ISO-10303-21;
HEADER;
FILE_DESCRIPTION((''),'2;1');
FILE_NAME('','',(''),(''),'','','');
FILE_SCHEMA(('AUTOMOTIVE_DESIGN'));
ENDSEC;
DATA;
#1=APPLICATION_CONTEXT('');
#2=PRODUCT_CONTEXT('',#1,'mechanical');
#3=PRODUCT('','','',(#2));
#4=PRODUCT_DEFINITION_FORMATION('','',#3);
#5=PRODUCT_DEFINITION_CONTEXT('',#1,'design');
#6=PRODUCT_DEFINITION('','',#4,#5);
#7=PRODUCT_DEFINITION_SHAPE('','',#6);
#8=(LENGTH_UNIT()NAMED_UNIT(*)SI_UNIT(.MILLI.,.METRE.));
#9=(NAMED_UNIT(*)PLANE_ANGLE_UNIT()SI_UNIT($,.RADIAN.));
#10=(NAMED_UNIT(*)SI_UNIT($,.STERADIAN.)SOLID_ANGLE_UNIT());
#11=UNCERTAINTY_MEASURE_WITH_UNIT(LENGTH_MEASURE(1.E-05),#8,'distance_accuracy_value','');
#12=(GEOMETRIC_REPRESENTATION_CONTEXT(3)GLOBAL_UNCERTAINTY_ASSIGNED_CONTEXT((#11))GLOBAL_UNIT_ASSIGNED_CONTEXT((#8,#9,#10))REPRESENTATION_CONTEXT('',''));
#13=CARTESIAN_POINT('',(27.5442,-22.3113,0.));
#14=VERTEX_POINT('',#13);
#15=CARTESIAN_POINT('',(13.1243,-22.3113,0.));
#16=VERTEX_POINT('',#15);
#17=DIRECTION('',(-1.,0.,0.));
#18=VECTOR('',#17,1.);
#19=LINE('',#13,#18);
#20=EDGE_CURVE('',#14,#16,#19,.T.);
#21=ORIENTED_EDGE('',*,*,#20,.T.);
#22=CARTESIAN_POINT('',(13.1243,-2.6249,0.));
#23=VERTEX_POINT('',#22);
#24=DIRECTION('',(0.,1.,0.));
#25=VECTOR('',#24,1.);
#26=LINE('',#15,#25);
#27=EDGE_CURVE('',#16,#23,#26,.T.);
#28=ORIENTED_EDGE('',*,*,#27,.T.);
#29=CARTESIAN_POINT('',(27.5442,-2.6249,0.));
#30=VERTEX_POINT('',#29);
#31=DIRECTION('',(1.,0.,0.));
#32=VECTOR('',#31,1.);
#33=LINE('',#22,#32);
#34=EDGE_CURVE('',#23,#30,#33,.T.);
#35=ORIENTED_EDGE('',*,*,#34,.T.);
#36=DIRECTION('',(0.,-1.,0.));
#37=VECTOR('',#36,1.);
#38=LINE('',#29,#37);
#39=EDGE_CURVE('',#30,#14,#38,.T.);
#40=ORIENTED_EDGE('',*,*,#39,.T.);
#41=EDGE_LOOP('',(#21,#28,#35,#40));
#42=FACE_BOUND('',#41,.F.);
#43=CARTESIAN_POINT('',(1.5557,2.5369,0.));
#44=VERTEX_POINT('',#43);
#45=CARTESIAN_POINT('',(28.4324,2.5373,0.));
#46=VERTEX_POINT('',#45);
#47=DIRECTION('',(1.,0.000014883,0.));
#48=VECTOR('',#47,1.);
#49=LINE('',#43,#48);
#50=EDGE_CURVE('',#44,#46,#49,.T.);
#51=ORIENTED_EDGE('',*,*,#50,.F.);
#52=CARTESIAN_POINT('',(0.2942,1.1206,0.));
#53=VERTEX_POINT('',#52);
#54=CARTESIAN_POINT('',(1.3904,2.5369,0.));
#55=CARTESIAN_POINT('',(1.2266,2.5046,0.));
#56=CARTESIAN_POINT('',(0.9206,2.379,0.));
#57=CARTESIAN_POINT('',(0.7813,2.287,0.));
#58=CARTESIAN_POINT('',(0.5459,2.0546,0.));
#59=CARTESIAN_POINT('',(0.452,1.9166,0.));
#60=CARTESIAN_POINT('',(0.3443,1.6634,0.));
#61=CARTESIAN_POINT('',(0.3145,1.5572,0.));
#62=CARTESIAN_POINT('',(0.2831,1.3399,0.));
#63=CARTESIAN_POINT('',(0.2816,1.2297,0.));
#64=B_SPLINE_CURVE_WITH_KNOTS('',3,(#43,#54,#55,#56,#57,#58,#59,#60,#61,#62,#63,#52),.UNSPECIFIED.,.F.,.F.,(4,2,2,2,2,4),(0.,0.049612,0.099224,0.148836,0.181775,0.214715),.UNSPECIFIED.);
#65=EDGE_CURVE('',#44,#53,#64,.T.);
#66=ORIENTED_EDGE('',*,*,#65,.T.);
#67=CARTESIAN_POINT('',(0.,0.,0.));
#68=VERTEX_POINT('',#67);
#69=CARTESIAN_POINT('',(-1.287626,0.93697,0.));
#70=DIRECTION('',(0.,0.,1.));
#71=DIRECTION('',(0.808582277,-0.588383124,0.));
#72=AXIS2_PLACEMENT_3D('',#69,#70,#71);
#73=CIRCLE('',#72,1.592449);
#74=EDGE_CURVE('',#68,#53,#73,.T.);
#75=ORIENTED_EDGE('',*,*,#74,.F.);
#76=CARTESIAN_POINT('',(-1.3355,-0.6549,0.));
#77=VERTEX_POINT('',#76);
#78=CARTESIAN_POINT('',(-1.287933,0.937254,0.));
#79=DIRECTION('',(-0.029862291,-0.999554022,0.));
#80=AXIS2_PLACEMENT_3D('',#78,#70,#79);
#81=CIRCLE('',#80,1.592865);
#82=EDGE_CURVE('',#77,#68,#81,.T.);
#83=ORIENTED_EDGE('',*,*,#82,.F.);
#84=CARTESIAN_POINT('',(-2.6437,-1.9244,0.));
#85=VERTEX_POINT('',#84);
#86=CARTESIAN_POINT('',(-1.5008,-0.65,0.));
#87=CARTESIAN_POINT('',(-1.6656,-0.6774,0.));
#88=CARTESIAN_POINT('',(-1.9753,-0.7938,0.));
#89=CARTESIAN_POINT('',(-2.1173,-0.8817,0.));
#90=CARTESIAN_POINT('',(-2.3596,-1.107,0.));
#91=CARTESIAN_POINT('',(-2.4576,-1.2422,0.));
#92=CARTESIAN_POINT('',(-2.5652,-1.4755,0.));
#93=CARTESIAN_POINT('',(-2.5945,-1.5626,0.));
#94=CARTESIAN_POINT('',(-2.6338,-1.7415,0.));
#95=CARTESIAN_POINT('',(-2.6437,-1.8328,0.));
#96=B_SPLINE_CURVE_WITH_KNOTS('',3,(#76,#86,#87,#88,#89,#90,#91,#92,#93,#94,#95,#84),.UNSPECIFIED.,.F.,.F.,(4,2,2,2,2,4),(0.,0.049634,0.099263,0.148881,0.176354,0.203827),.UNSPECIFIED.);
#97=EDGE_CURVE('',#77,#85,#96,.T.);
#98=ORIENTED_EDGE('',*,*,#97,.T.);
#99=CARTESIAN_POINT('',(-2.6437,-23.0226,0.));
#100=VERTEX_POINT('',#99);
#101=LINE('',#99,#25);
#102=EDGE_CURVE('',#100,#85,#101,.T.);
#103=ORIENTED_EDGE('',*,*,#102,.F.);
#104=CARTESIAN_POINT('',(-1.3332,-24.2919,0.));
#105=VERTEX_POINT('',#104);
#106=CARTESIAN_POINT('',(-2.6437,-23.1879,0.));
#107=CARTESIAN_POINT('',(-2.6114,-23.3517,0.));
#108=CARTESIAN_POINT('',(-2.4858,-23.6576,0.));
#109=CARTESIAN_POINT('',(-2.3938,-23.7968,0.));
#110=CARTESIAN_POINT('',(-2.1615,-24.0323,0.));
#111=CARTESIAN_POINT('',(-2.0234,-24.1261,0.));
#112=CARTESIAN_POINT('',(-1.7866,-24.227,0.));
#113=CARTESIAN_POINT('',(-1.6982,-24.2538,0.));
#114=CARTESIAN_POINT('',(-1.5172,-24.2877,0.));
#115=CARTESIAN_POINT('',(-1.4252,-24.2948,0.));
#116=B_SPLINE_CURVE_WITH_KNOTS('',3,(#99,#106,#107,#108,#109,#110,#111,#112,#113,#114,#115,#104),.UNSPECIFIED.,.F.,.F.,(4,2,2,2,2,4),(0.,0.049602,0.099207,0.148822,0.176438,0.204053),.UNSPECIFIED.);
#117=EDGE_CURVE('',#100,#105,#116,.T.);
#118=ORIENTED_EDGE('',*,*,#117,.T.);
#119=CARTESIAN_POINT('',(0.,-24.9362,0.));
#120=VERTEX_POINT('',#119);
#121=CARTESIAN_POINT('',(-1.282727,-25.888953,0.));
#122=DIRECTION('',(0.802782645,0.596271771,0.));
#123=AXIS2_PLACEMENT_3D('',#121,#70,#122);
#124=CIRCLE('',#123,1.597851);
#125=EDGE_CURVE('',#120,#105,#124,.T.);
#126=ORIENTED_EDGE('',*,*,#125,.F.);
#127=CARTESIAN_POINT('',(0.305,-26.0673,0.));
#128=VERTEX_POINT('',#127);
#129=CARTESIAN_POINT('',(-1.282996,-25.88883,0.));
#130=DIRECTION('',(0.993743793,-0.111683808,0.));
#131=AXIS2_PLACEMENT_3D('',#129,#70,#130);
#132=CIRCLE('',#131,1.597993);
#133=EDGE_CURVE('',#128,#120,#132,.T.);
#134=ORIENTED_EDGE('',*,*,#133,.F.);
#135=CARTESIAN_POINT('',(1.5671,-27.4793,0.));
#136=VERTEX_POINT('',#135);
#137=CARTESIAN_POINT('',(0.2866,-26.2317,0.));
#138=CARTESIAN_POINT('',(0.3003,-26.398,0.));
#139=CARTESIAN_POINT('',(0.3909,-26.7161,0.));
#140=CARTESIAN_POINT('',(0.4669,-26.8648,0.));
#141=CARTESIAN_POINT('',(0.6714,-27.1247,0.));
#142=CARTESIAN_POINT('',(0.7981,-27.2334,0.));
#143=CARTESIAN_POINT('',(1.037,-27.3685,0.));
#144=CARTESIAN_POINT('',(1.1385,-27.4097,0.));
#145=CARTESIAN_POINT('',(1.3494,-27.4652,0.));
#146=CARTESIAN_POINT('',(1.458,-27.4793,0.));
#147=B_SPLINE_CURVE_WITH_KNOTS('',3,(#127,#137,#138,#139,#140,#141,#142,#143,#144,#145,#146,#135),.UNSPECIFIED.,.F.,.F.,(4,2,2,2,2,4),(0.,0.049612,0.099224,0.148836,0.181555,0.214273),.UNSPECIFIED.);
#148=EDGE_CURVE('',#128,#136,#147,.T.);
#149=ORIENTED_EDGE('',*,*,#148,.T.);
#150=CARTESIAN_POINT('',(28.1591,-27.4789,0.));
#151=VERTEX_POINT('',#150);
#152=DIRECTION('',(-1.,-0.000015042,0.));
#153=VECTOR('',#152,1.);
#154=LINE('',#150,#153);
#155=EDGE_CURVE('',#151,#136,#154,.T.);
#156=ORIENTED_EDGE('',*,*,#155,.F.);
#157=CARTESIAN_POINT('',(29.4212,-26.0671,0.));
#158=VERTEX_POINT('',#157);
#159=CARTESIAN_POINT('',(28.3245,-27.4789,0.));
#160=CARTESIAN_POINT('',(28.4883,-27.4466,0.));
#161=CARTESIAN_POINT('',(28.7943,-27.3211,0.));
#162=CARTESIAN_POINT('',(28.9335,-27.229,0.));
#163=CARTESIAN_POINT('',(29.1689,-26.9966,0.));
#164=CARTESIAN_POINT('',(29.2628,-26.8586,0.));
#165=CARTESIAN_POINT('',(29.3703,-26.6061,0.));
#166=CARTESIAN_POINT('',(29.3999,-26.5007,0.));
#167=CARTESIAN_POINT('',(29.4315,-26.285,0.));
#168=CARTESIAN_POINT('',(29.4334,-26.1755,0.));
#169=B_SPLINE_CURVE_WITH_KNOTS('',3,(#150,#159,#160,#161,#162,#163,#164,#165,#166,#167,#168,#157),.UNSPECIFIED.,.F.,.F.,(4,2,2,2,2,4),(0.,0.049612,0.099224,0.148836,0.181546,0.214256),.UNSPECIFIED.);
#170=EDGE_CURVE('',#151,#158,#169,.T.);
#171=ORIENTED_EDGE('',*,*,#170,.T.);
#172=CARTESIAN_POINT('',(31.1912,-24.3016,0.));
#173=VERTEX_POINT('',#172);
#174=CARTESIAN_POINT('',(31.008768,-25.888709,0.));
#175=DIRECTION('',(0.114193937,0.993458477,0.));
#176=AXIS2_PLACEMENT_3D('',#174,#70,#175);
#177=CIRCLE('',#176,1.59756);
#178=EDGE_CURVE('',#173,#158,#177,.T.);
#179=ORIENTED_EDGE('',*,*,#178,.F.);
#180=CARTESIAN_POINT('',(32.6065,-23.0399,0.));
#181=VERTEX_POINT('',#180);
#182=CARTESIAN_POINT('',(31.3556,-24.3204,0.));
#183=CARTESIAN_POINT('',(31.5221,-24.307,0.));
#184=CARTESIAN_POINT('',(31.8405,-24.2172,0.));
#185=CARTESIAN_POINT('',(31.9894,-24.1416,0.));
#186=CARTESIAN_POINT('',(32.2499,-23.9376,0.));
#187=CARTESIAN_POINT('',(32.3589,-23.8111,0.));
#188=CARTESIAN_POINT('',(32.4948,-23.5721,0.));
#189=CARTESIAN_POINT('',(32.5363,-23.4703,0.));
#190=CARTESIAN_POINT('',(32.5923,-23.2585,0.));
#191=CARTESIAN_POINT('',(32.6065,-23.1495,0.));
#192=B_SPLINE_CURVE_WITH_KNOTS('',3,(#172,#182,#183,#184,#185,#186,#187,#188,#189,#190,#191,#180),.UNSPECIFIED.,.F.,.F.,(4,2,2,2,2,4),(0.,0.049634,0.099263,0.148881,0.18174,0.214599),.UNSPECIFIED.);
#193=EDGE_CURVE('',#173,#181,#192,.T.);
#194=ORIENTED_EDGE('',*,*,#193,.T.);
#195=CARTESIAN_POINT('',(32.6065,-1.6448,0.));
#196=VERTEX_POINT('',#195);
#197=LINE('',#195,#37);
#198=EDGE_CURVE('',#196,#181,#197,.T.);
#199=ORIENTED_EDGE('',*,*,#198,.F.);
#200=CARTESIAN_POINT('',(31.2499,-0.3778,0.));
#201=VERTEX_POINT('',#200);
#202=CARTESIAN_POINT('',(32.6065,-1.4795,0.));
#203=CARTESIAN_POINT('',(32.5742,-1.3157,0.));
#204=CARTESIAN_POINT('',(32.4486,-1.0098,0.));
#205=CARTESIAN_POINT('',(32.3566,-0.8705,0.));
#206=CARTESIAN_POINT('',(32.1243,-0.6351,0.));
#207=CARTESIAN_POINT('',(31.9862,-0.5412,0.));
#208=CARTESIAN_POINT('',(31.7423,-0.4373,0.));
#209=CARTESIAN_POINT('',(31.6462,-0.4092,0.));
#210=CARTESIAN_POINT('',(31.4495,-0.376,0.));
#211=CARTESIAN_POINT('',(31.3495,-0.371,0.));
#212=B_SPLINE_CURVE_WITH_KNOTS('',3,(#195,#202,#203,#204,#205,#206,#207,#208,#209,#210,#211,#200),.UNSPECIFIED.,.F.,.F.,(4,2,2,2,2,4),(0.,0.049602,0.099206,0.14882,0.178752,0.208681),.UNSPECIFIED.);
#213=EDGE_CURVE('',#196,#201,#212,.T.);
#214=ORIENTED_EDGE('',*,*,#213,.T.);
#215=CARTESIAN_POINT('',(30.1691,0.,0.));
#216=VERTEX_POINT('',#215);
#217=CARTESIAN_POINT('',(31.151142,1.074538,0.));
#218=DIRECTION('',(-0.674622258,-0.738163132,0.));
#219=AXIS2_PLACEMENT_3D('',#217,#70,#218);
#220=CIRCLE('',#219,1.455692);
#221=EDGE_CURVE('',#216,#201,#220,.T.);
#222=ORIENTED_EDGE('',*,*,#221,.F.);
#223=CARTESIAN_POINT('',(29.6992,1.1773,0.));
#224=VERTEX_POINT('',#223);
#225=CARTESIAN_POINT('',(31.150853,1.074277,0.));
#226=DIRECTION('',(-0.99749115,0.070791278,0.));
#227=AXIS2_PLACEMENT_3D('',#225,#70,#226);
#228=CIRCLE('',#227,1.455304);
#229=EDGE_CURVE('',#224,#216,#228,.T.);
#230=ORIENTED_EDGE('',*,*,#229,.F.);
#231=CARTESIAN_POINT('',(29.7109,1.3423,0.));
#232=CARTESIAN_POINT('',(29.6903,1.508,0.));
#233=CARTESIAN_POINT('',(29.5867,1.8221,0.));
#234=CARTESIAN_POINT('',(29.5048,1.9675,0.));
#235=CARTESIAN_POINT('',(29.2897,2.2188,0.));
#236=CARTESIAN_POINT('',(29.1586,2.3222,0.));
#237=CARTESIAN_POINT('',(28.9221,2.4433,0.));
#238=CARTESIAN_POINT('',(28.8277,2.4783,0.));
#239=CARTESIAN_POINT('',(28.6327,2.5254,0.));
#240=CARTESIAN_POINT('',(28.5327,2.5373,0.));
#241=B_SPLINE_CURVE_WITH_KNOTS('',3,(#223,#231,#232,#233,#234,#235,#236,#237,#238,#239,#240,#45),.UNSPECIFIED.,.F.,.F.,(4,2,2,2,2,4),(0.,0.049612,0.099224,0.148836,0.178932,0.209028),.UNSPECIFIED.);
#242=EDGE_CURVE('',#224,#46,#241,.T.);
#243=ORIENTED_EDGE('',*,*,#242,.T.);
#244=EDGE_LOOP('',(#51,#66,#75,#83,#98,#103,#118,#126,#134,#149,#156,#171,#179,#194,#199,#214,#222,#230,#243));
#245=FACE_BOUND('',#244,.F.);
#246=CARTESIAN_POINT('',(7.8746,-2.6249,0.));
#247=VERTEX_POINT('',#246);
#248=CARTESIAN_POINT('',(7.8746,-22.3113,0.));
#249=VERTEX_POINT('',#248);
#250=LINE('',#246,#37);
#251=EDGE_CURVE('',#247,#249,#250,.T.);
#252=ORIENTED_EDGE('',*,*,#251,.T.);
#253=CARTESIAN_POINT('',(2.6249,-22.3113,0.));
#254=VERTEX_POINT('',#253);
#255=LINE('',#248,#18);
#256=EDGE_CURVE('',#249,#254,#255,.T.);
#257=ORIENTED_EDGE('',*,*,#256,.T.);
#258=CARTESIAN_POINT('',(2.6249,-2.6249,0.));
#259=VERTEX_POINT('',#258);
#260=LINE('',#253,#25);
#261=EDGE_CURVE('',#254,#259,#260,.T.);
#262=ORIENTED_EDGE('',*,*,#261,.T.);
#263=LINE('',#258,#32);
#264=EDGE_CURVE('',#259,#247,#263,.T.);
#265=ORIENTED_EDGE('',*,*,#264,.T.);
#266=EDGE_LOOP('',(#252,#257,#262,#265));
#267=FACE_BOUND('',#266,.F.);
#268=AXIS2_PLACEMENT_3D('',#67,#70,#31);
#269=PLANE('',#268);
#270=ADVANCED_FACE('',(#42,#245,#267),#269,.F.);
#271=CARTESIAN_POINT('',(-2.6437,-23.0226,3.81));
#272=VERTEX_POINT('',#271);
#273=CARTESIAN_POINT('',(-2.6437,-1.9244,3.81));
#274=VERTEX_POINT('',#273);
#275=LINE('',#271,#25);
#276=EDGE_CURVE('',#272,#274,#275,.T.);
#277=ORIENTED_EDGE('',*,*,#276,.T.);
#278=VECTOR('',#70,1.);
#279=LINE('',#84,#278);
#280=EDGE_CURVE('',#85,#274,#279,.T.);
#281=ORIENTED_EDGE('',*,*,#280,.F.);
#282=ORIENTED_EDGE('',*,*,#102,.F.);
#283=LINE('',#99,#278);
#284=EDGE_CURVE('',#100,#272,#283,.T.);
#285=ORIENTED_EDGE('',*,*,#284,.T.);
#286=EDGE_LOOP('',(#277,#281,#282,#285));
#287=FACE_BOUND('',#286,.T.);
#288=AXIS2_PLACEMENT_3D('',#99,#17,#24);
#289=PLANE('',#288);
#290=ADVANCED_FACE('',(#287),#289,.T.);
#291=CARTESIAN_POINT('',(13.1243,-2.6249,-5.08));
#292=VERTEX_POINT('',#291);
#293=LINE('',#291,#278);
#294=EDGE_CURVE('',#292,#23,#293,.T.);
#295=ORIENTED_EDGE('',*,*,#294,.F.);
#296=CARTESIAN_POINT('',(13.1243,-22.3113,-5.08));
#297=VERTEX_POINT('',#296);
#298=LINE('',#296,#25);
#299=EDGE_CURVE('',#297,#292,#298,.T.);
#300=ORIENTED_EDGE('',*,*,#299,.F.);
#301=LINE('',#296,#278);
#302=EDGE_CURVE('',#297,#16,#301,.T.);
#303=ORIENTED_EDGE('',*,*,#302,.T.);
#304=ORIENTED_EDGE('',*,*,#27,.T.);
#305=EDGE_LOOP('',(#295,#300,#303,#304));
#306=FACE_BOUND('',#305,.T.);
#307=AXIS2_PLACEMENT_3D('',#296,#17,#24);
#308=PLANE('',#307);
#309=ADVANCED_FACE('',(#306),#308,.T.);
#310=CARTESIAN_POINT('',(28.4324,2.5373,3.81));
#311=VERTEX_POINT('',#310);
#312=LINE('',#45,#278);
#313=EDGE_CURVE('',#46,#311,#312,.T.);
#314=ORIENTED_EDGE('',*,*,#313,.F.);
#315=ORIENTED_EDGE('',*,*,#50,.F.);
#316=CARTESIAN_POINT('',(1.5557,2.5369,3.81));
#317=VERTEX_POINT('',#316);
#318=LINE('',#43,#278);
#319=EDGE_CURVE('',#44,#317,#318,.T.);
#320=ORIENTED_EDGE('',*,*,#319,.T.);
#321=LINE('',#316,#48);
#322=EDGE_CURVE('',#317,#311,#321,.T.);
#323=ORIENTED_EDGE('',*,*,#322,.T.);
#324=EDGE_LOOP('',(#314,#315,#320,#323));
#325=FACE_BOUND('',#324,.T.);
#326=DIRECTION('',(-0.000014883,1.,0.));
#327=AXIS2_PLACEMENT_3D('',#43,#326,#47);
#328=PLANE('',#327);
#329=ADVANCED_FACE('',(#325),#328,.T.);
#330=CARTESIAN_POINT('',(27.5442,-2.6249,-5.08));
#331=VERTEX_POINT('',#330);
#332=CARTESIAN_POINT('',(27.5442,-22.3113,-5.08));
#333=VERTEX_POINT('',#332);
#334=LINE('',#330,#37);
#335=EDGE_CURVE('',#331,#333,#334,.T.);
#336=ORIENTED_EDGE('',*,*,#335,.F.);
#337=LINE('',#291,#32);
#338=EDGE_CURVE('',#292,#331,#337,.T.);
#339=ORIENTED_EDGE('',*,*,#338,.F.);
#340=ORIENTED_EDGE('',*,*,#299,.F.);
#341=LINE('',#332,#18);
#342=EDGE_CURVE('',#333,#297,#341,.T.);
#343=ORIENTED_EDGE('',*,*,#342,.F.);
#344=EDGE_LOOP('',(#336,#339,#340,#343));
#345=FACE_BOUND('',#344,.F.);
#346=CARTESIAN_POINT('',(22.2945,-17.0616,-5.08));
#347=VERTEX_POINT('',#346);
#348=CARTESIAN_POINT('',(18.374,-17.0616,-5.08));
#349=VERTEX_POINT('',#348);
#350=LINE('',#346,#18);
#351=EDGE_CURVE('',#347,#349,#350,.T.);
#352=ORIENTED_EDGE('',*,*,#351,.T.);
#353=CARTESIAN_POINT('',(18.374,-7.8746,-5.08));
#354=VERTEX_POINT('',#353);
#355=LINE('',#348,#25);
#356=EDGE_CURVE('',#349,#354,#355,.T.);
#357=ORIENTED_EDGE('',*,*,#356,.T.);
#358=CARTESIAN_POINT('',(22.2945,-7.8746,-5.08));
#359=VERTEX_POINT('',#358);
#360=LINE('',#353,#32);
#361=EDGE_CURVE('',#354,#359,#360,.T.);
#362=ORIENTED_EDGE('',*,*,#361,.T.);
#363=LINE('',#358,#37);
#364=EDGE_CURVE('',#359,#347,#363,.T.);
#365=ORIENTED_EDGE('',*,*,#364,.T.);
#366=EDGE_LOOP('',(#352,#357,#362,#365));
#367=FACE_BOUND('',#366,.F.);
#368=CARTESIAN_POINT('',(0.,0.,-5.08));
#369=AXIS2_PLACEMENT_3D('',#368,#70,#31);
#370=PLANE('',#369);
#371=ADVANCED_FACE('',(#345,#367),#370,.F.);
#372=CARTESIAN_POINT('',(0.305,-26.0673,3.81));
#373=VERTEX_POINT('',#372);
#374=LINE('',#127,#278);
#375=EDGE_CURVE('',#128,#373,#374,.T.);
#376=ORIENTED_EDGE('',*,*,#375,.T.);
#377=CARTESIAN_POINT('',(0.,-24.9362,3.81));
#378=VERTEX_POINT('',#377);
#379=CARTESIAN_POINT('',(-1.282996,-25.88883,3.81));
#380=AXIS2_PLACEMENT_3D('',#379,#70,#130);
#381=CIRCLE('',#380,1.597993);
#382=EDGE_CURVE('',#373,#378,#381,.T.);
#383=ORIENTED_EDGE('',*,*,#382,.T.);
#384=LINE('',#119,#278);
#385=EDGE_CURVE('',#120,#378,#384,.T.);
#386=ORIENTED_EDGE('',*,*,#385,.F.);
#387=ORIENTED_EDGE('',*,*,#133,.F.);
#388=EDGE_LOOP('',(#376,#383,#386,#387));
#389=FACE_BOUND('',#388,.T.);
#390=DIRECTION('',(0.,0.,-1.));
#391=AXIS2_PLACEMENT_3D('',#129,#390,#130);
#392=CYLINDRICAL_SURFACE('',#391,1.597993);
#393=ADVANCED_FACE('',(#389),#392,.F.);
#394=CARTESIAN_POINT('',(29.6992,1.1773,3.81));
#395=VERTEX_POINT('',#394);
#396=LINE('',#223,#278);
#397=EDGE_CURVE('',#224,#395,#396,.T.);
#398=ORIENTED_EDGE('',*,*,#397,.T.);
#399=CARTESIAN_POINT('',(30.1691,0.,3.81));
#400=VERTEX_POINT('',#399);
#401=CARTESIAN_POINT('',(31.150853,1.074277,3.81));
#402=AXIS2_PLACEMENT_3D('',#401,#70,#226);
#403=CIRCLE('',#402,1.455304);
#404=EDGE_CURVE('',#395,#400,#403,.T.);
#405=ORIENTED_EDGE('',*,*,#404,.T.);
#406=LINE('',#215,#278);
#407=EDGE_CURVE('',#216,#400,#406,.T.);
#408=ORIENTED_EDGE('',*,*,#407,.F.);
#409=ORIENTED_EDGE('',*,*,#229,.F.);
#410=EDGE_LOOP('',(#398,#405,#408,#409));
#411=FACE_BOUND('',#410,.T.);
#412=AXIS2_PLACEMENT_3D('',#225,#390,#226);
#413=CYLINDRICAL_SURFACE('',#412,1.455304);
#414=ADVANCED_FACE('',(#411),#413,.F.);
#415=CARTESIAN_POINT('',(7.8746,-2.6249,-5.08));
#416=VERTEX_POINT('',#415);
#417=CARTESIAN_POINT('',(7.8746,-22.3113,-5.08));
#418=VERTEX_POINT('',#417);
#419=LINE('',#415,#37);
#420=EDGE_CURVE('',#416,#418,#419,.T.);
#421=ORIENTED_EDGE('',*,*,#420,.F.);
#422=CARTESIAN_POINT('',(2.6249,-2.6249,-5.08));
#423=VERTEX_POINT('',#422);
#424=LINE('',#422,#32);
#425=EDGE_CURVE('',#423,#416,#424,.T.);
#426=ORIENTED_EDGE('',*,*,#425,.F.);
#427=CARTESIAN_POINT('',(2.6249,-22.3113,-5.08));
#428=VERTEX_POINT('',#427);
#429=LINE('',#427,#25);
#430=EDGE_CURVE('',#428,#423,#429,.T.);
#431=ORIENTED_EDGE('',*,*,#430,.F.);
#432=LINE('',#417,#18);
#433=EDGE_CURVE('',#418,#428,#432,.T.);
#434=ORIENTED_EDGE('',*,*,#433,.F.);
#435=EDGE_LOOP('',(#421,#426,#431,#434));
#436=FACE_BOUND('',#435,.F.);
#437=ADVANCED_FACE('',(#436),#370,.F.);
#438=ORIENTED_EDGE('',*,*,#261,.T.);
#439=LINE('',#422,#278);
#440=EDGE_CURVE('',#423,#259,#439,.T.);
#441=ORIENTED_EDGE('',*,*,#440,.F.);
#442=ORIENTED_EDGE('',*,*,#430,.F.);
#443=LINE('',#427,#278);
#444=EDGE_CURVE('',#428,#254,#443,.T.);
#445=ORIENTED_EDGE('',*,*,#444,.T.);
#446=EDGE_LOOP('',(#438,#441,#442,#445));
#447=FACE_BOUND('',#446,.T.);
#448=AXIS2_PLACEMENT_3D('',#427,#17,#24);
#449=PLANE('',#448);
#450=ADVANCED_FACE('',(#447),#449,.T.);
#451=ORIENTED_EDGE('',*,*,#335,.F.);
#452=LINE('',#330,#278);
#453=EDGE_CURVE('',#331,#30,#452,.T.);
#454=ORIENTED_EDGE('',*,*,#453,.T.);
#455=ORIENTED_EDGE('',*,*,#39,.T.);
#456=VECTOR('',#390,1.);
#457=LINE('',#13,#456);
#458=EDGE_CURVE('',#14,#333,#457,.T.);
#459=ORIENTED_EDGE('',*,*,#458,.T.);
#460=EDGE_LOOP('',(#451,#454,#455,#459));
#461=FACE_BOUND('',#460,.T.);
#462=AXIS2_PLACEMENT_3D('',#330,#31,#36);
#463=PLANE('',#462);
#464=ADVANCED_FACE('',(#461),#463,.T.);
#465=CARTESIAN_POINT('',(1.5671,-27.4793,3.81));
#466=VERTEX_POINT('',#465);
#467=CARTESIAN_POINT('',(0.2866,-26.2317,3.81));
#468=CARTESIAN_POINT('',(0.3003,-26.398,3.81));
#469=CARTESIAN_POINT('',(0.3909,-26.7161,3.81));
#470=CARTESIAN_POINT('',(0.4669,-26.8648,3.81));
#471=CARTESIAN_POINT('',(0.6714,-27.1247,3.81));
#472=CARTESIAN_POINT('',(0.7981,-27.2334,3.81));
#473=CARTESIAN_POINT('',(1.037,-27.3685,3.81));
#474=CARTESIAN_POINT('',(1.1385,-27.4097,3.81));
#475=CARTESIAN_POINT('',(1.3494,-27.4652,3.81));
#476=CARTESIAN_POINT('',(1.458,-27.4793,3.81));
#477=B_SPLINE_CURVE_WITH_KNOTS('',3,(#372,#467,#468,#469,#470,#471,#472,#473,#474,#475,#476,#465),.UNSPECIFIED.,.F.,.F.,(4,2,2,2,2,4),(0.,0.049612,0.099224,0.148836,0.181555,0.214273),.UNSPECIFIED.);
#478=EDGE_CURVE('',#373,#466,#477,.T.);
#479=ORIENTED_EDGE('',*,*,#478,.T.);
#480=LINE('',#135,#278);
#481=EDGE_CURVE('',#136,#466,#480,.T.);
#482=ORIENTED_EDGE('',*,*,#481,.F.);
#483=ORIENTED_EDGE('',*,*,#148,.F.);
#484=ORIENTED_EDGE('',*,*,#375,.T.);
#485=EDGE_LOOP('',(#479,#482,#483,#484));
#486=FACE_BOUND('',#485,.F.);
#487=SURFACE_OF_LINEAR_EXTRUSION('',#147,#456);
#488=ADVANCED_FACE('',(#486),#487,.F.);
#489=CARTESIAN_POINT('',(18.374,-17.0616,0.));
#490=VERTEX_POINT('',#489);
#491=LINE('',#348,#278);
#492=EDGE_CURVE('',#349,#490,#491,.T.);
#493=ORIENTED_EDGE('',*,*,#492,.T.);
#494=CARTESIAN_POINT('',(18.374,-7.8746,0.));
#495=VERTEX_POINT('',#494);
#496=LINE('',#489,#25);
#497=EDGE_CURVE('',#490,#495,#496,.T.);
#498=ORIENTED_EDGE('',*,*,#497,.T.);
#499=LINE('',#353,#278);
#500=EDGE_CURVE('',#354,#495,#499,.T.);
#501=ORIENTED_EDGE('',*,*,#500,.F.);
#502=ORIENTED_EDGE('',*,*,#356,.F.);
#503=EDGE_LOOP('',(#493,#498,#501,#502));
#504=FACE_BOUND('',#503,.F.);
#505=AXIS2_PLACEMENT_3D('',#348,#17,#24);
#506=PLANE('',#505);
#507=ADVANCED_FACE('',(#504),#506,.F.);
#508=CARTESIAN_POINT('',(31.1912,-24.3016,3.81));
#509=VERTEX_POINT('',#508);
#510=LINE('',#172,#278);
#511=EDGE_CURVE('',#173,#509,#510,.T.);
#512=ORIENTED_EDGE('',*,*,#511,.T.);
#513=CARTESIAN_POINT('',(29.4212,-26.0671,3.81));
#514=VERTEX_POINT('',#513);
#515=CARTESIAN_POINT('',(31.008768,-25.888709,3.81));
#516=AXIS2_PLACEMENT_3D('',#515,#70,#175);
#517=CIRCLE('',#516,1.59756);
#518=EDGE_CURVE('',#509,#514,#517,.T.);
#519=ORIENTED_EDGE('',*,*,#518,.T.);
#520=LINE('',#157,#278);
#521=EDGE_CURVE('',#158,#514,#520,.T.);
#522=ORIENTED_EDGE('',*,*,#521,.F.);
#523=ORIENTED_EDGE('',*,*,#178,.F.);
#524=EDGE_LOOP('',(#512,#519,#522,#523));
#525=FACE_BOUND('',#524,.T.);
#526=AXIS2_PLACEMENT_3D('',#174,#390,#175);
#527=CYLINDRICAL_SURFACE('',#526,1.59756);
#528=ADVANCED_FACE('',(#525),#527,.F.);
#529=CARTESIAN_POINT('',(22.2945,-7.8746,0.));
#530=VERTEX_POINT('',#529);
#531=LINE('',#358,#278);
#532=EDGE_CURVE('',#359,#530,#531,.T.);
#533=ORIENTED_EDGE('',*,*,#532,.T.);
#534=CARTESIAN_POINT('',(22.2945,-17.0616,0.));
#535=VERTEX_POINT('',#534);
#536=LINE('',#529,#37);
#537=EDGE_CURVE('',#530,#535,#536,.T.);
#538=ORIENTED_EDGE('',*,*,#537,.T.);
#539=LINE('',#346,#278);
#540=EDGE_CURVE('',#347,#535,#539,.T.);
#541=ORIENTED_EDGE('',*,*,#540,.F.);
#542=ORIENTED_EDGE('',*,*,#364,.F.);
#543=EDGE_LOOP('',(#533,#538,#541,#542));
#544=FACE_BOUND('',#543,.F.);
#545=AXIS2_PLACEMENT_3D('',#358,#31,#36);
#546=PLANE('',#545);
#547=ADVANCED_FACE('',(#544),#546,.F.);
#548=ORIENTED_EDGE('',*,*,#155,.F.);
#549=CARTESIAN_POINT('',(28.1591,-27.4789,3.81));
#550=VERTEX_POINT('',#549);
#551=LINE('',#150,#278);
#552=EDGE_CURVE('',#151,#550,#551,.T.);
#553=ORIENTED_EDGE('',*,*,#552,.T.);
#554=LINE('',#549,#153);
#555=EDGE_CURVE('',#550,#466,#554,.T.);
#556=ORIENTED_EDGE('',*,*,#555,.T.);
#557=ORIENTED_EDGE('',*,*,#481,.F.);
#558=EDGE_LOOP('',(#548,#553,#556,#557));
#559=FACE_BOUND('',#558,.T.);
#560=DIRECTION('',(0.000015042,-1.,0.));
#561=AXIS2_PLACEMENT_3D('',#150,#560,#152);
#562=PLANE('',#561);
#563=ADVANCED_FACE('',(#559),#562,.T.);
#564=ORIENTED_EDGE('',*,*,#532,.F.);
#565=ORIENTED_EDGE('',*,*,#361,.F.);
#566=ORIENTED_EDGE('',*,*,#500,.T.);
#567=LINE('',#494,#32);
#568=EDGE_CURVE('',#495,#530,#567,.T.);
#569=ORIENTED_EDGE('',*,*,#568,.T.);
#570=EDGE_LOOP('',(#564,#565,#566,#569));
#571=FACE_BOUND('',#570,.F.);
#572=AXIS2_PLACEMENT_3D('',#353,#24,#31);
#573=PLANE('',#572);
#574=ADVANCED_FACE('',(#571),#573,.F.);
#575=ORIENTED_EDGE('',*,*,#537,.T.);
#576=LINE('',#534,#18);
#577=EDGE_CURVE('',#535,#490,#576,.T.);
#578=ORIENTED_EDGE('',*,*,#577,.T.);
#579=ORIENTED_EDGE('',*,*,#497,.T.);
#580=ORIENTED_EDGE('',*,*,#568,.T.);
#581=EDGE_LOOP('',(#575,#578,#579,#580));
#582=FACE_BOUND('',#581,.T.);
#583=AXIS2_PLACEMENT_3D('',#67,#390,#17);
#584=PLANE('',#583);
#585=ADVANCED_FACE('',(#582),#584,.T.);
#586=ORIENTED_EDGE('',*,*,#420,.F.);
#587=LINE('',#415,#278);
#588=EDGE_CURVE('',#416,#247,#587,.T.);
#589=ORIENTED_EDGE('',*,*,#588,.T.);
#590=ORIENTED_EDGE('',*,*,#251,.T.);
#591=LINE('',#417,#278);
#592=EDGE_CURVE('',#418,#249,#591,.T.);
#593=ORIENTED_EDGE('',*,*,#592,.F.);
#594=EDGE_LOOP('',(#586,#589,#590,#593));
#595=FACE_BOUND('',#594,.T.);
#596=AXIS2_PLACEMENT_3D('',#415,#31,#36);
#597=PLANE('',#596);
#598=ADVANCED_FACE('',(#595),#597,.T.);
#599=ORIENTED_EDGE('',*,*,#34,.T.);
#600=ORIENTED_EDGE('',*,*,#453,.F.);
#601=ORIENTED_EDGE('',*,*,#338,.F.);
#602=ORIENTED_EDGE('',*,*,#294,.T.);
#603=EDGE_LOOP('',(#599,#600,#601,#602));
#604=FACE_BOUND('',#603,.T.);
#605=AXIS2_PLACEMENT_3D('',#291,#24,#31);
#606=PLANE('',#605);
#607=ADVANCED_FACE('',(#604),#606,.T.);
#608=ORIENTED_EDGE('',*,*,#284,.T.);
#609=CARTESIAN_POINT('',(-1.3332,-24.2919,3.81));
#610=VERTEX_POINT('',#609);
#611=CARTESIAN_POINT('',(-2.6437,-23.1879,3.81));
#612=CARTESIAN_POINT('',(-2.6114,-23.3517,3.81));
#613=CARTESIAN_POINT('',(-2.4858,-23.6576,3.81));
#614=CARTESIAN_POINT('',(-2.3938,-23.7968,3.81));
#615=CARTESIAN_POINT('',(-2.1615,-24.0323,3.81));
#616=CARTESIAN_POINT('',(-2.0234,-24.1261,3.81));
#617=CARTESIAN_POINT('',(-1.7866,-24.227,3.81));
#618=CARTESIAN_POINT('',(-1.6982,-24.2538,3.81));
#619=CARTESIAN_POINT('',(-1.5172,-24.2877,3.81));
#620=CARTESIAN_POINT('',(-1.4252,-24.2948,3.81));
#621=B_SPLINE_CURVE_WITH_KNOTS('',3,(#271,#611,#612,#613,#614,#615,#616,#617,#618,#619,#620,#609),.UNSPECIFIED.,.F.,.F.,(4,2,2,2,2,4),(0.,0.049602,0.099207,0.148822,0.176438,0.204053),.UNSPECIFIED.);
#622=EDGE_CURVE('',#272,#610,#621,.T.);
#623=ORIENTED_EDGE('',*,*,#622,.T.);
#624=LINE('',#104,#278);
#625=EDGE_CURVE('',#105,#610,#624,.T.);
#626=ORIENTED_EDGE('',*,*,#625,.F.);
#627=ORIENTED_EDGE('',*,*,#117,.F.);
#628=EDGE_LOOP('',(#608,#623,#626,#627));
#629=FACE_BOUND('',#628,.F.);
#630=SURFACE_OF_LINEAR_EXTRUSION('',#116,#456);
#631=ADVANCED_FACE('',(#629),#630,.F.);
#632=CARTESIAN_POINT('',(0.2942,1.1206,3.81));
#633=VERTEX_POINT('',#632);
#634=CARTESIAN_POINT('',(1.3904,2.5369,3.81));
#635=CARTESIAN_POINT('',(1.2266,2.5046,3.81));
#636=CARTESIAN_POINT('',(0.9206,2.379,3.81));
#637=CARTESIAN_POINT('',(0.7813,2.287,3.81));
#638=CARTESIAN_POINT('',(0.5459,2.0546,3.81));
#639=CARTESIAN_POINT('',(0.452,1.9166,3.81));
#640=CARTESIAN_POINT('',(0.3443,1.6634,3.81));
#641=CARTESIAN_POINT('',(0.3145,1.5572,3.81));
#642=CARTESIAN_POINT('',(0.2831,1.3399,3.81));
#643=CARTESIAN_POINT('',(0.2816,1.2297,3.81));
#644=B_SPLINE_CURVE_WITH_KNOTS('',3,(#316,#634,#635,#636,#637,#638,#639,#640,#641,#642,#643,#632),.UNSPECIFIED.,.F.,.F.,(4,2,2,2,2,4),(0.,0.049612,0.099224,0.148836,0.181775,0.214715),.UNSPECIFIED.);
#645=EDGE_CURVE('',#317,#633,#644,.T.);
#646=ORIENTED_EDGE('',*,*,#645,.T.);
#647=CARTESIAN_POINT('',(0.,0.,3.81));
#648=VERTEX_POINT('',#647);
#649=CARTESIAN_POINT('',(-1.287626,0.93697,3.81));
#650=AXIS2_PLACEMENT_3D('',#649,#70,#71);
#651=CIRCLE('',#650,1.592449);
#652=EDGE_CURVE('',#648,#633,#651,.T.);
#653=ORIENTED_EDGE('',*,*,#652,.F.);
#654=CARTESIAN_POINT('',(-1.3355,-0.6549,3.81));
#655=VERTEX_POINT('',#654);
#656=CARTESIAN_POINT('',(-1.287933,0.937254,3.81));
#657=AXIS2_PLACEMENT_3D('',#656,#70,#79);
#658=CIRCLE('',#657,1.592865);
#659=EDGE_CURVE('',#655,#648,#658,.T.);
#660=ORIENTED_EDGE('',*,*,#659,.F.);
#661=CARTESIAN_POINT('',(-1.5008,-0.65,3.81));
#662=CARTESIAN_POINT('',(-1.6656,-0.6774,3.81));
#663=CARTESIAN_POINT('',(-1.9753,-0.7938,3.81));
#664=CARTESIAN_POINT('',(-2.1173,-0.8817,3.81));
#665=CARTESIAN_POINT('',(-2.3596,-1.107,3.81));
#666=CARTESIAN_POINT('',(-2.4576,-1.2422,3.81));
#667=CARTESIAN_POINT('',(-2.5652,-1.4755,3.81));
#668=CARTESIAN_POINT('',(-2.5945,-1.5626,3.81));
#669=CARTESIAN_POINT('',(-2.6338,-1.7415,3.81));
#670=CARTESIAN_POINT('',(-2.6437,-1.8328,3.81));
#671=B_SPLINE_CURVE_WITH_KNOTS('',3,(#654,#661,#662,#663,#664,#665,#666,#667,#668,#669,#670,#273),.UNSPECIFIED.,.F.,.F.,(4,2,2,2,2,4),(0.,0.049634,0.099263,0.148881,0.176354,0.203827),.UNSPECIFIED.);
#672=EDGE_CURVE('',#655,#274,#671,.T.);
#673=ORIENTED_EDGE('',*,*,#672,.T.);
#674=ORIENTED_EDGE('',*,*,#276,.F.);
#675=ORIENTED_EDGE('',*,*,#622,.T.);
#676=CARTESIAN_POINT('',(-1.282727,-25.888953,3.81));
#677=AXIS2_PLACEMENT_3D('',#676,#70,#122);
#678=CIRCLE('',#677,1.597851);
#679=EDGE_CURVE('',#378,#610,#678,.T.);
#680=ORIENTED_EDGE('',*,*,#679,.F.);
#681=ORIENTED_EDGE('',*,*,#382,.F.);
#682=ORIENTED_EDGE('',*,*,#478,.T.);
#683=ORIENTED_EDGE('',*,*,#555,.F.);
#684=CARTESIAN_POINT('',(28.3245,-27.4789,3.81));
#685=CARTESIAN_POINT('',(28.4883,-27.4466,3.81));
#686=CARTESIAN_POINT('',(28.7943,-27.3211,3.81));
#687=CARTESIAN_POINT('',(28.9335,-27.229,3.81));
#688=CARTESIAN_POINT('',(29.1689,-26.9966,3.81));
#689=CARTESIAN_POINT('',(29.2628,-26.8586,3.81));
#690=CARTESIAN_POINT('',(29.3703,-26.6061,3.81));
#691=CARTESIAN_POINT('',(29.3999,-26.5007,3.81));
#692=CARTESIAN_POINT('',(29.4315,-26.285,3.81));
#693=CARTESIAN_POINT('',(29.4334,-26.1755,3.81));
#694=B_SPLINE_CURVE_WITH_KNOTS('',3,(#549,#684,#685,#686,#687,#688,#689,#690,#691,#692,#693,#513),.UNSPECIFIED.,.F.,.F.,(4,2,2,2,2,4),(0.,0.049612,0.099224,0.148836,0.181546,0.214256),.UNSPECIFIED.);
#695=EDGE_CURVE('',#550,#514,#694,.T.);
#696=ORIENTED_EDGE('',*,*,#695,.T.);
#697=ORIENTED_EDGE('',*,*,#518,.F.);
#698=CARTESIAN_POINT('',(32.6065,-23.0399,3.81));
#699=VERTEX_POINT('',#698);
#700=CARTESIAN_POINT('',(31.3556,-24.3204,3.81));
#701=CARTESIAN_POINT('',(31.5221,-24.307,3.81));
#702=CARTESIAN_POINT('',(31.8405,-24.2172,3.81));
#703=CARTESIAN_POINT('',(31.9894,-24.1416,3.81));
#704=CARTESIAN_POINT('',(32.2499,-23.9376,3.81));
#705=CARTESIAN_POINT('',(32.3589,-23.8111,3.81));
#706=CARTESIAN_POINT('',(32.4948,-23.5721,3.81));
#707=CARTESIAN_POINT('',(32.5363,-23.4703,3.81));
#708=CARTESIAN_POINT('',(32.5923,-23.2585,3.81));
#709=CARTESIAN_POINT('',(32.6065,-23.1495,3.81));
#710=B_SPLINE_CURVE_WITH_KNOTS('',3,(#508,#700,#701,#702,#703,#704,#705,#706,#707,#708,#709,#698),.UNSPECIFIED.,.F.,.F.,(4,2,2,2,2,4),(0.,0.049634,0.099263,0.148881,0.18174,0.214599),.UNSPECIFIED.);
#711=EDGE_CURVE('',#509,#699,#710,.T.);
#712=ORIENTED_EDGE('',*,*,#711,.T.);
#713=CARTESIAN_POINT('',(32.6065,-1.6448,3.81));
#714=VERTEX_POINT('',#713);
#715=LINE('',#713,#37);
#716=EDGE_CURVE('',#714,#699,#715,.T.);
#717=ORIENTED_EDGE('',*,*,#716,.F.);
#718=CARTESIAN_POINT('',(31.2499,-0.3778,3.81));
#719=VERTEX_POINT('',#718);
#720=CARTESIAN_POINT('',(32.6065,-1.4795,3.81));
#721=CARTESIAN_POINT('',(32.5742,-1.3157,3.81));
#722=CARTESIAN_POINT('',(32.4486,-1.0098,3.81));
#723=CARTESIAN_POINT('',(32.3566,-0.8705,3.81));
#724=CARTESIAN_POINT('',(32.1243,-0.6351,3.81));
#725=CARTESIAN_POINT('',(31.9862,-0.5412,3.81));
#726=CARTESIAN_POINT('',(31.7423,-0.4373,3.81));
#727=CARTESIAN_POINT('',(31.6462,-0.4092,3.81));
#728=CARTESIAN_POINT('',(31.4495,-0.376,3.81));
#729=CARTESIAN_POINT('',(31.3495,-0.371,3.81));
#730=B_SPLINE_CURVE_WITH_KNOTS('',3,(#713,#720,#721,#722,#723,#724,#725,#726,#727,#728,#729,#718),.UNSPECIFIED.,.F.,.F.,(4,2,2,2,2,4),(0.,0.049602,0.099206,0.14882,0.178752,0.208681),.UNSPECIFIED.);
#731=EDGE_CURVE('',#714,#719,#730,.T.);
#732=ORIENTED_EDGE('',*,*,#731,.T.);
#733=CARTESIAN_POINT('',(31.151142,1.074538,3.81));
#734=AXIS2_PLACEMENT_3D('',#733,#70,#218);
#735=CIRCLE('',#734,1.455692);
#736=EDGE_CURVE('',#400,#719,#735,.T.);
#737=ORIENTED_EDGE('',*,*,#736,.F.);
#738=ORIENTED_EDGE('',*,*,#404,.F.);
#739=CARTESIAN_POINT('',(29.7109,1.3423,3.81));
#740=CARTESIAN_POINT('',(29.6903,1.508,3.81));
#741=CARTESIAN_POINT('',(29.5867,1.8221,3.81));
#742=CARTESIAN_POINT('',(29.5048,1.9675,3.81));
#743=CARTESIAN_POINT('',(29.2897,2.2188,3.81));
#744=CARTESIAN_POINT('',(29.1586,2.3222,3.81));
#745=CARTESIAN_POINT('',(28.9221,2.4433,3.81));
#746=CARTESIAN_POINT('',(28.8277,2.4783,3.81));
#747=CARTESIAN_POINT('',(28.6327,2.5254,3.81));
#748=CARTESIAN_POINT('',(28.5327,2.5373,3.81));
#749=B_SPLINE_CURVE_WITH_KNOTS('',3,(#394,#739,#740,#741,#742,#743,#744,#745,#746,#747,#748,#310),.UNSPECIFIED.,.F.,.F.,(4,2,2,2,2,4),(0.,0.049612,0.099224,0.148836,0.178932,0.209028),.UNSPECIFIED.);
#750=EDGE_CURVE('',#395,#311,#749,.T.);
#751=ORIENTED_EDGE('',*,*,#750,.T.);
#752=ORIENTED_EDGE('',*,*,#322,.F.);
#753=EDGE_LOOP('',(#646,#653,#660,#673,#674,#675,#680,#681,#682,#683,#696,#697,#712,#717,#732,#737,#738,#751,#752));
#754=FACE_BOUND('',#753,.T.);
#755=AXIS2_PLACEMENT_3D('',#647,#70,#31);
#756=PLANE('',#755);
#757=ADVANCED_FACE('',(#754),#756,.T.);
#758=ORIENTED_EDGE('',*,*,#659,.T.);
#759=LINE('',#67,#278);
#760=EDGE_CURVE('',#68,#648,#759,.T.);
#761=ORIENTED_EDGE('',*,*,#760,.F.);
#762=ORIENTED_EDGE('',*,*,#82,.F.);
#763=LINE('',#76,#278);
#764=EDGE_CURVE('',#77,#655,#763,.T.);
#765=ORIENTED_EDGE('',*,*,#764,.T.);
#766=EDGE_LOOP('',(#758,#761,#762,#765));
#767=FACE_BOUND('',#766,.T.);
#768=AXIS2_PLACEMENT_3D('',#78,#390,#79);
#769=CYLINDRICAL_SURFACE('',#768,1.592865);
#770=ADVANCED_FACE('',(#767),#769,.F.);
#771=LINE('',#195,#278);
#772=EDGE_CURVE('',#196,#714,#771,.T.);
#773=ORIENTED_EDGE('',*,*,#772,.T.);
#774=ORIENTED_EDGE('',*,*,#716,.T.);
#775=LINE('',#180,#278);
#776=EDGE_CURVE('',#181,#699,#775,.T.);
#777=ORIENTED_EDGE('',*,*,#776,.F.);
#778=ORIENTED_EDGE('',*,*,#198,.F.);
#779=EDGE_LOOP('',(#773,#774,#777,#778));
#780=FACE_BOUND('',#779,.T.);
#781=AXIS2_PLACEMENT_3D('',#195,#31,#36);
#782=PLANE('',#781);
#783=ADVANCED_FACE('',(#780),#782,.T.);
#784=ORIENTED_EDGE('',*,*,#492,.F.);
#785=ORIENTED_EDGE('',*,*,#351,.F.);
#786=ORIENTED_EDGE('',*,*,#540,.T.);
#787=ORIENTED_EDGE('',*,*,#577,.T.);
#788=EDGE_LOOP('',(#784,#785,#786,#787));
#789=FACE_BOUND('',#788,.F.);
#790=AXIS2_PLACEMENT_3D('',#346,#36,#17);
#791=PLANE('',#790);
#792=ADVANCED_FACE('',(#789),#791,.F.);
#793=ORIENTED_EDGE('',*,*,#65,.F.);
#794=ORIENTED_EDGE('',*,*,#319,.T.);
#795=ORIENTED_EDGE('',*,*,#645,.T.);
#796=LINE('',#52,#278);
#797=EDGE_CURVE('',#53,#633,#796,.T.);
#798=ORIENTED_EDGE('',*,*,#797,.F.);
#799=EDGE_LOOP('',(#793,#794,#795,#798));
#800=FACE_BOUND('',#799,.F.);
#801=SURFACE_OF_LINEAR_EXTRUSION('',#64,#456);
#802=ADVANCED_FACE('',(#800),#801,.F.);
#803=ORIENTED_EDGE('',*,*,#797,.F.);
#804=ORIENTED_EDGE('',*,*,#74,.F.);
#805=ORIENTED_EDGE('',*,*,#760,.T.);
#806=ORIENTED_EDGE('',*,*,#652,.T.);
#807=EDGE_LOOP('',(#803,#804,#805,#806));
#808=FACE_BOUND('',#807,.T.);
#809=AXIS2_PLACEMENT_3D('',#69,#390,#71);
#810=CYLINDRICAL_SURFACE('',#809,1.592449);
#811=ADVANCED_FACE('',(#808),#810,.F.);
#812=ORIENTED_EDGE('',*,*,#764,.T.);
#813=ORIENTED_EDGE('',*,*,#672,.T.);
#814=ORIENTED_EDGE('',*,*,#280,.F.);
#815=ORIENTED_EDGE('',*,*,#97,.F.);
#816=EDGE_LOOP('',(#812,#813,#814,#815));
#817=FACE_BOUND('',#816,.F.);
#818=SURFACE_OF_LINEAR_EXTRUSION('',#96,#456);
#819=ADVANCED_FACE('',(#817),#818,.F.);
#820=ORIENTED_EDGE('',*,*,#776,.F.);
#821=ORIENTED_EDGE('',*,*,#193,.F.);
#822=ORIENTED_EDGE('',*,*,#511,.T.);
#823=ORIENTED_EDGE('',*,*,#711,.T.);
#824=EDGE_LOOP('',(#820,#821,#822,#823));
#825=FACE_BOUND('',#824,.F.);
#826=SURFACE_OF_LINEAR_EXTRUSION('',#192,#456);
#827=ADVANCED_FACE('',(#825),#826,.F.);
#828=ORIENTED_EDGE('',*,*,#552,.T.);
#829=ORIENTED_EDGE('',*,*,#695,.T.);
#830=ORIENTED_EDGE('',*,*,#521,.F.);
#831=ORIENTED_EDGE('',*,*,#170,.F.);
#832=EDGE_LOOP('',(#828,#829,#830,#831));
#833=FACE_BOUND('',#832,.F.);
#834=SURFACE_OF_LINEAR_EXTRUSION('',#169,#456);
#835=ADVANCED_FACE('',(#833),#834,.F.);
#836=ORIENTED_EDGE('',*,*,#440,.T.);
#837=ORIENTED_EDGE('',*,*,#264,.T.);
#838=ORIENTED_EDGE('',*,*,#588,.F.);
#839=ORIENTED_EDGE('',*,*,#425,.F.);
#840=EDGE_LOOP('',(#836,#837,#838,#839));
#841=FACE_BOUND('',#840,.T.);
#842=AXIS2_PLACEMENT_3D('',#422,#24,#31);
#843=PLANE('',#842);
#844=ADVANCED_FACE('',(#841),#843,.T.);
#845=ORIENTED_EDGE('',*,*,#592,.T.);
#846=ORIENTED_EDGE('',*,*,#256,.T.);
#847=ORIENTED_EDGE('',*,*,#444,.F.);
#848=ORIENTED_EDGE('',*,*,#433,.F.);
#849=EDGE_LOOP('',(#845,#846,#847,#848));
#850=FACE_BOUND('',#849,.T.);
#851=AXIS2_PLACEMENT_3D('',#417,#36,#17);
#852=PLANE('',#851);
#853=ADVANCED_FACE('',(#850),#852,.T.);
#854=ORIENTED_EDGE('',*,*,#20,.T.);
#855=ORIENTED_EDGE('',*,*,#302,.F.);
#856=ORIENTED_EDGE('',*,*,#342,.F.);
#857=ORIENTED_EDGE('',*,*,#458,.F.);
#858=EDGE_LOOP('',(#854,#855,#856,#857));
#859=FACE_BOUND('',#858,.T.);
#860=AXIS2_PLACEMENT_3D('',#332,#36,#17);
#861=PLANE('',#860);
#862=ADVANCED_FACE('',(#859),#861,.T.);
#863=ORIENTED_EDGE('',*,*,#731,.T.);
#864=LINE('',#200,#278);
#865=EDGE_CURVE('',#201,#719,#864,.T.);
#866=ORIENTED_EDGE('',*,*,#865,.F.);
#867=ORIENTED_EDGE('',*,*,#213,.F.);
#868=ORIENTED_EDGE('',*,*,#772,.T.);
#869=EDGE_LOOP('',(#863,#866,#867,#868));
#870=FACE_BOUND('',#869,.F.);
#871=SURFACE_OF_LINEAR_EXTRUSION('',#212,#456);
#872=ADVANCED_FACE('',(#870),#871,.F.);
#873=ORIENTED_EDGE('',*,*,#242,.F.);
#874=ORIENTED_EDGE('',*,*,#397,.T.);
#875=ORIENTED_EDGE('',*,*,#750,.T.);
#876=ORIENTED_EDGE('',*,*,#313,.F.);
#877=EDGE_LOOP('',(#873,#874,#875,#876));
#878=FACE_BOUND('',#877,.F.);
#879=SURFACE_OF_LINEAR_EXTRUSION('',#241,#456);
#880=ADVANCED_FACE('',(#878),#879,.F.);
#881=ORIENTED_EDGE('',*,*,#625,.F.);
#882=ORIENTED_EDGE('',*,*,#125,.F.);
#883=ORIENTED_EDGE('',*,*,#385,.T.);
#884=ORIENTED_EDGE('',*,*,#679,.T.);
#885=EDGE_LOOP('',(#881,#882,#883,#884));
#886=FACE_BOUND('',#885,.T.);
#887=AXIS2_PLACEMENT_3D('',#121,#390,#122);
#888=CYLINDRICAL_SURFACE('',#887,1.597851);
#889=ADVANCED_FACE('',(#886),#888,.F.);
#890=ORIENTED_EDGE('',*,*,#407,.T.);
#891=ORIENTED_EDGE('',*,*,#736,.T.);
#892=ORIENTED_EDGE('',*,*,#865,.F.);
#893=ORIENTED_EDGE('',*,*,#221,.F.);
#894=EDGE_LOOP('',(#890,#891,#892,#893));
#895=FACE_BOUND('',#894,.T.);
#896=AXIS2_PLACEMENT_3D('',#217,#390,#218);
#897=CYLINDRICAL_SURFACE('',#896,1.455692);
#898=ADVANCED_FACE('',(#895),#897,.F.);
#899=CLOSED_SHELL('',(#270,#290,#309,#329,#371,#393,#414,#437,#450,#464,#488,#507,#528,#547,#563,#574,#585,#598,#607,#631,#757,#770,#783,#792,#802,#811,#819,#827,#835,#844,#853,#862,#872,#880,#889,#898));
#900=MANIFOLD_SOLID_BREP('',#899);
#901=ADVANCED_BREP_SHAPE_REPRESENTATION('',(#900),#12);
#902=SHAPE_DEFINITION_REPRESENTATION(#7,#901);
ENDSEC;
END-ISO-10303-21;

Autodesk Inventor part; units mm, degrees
ref_plane "YZ Plane" through (0, 0, 0) normal (1, 0, 0) x (0, 1, 0)
ref_plane "XZ Plane" through (0, 0, 0) normal (0, 1, 0) x (-1, 0, 0)
ref_plane "XY Plane" through (0, 0, 0) normal (0, 0, 1) x (1, 0, 0)
sketch "Base" plane through (0, 0, 0) normal (0, 0, 1) x (1, 0, 0)
  spline S0 degree 3 poles (29.6992, 1.1773) (29.7109, 1.3423) (29.6903, 1.508) (29.5867, 1.8221) (29.5048, 1.9675) (29.2897, 2.2188) (29.1586, 2.3222) (28.9221, 2.4433) (28.8277, 2.4783) (28.6327, 2.5254) (28.5327, 2.5373) (28.4324, 2.5373) knots 0 0 0 0 0.049612 0.049612 0.099224 0.099224 0.148836 0.148836 0.178932 0.178932 0.209028 0.209028 0.209028 0.209028
  line L0 (1.5557, 2.5369) -> (28.4324, 2.5373)
  spline S1 degree 3 poles (1.5557, 2.5369) (1.3904, 2.5369) (1.2266, 2.5046) (0.9206, 2.379) (0.7813, 2.287) (0.5459, 2.0546) (0.452, 1.9166) (0.3443, 1.6634) (0.3145, 1.5572) (0.2831, 1.3399) (0.2816, 1.2297) (0.2942, 1.1206) knots 0 0 0 0 0.049612 0.049612 0.099224 0.099224 0.148836 0.148836 0.181775 0.181775 0.214715 0.214715 0.214715 0.214715
  arc A0 (0, 0) -> (0.2942, 1.1206) centre (-1.2879, 0.9371) ccw
  line L1 (30.1691, 0) -> (0, 0)
  arc A1 (29.6992, 1.1773) -> (30.1691, 0) centre (31.151, 1.0743) ccw
  spline S2 degree 3 poles (-2.6437, -23.0226) (-2.6437, -23.1879) (-2.6114, -23.3517) (-2.4858, -23.6576) (-2.3938, -23.7968) (-2.1615, -24.0323) (-2.0234, -24.1261) (-1.7866, -24.227) (-1.6982, -24.2538) (-1.5172, -24.2877) (-1.4252, -24.2948) (-1.3332, -24.2919) knots 0 0 0 0 0.049602 0.049602 0.099207 0.099207 0.148822 0.148822 0.176438 0.176438 0.204053 0.204053 0.204053 0.204053
  arc A2 (0, -24.9362) -> (-1.3332, -24.2919) centre (-1.2826, -25.8888) ccw
  line L2 (0, 0) -> (0, -24.9362)
  arc A3 (-1.3355, -0.6549) -> (0, 0) centre (-1.2879, 0.9371) ccw
  spline S3 degree 3 poles (-1.3355, -0.6549) (-1.5008, -0.65) (-1.6656, -0.6774) (-1.9753, -0.7938) (-2.1173, -0.8817) (-2.3596, -1.107) (-2.4576, -1.2422) (-2.5652, -1.4755) (-2.5945, -1.5626) (-2.6338, -1.7415) (-2.6437, -1.8328) (-2.6437, -1.9244) knots 0 0 0 0 0.049634 0.049634 0.099263 0.099263 0.148881 0.148881 0.176354 0.176354 0.203827 0.203827 0.203827 0.203827
  line L3 (-2.6437, -23.0226) -> (-2.6437, -1.9244)
  spline S4 degree 3 poles (28.1591, -27.4789) (28.3245, -27.4789) (28.4883, -27.4466) (28.7943, -27.3211) (28.9335, -27.229) (29.1689, -26.9966) (29.2628, -26.8586) (29.3703, -26.6061) (29.3999, -26.5007) (29.4315, -26.285) (29.4334, -26.1755) (29.4212, -26.0671) knots 0 0 0 0 0.049612 0.049612 0.099224 0.099224 0.148836 0.148836 0.181546 0.181546 0.214256 0.214256 0.214256 0.214256
  arc A4 (31.1912, -24.3016) -> (29.4212, -26.0671) centre (31.0088, -25.8888) ccw
  spline S5 degree 3 poles (31.1912, -24.3016) (31.3556, -24.3204) (31.5221, -24.307) (31.8405, -24.2172) (31.9894, -24.1416) (32.2499, -23.9376) (32.3589, -23.8111) (32.4948, -23.5721) (32.5363, -23.4703) (32.5923, -23.2585) (32.6065, -23.1495) (32.6065, -23.0399) knots 0 0 0 0 0.049634 0.049634 0.099263 0.099263 0.148881 0.148881 0.18174 0.18174 0.214599 0.214599 0.214599 0.214599
  line L4 (32.6065, -1.6448) -> (32.6065, -23.0399)
  spline S6 degree 3 poles (32.6065, -1.6448) (32.6065, -1.4795) (32.5742, -1.3157) (32.4486, -1.0098) (32.3566, -0.8705) (32.1243, -0.6351) (31.9862, -0.5412) (31.7423, -0.4373) (31.6462, -0.4092) (31.4495, -0.376) (31.3495, -0.371) (31.2499, -0.3778) knots 0 0 0 0 0.049602 0.049602 0.099206 0.099206 0.14882 0.14882 0.178752 0.178752 0.208681 0.208681 0.208681 0.208681
  arc A5 (30.1691, 0) -> (31.2499, -0.3778) centre (31.151, 1.0743) ccw
  line L5 (30.1691, -22.3113) -> (30.1691, 0)
  line L6 (27.5442, -22.3113) -> (30.1691, -22.3113)
  line L7 (27.5442, -24.9362) -> (27.5442, -22.3113)
  line L8 (0, -24.9362) -> (27.5442, -24.9362)
  arc A6 (0.305, -26.0673) -> (0, -24.9362) centre (-1.2826, -25.8888) ccw
  spline S7 degree 3 poles (0.305, -26.0673) (0.2866, -26.2317) (0.3003, -26.398) (0.3909, -26.7161) (0.4669, -26.8648) (0.6714, -27.1247) (0.7981, -27.2334) (1.037, -27.3685) (1.1385, -27.4097) (1.3494, -27.4652) (1.458, -27.4793) (1.5671, -27.4793) knots 0 0 0 0 0.049612 0.049612 0.099224 0.099224 0.148836 0.148836 0.181555 0.181555 0.214273 0.214273 0.214273 0.214273
  line L9 (28.1591, -27.4789) -> (1.5671, -27.4793)
  point P0 (30.1691, 0)
  point P1 (30.1691, 0)
extrude "BaseFeature" add sketch "Base" along normal blind 3.81
extrude "LogoFeature" add sketch "Base" against normal blind 5.08 contours L5 L6 L7 L8 L2 L1
sketch "LogoDetail" plane through (0, 0, -5.08) normal (0, 0, -1) x (-1, 0, 0)
  line L0 (-18.374, -7.8746) -> (-22.2945, -7.8746)
  line L1 (-27.5442, -22.3113) -> (-13.1243, -22.3113)
  line L2 (-22.2945, -17.0616) -> (-18.374, -17.0616)
  line L3 (-13.1243, -2.6249) -> (-27.5442, -2.6249)
  line L4 (-22.2945, -7.8746) -> (-22.2945, -17.0616)
  line L5 (-18.374, -17.0616) -> (-18.374, -7.8746)
  line L6 (-30.1691, -22.3113) -> (-30.1691, 0)
  line L7 (-27.5442, -2.6249) -> (-27.5442, -22.3113)
  line L8 (-13.1243, -22.3113) -> (-13.1243, -2.6249)
  line L9 (-30.1691, 0) -> (0, 0)
  line L10 (0, -24.9362) -> (-27.5442, -24.9362)
  line L11 (-7.8746, -2.6249) -> (-7.8746, -22.3113)
  line L12 (-2.6249, -22.3113) -> (-2.6249, -2.6249)
  line L13 (-7.8746, -22.3113) -> (-2.6249, -22.3113)
  line L14 (-2.6249, -2.6249) -> (-7.8746, -2.6249)
  line L15 (-27.5442, -24.9362) -> (-27.5442, -22.3113)
  line L16 (-27.5442, -22.3113) -> (-30.1691, -22.3113)
  line L17 (0, 0) -> (0, -24.9362)
  line L18 (-30.1691, -22.3113) -> (-30.1691, -24.9362)
  line L19 (-30.1691, -24.9362) -> (-27.5442, -24.9362)
  line L20 (0, 0) -> (-30.1691, 0) projected
  line L21 (-30.1691, 0) -> (-30.1691, -22.3113) projected
  dimension "d4" = 3.9205
  dimension "d5" = 5.2497
  dimension "d6" = 5.2497
  dimension "d7" = 5.2497
  dimension "d8" = 2.6249
  dimension "d9" = 5.2497
  dimension "d10" = 5.2497
  dimension "d11" = 2.6249
  dimension "d12" = 2.6249
  dimension "d13" = 2.6249
  dimension "d14" = 24.9362
  dimension "d15" = 27.5443
  dimension "d16" = 5.2497
extrude "LogoDetailFeature" cut sketch "LogoDetail" against normal blind 5.08 contours L5 L2 L4 L0 | L16 L6 L9 L17 L10 L15
properties part number "switchback-logo"
